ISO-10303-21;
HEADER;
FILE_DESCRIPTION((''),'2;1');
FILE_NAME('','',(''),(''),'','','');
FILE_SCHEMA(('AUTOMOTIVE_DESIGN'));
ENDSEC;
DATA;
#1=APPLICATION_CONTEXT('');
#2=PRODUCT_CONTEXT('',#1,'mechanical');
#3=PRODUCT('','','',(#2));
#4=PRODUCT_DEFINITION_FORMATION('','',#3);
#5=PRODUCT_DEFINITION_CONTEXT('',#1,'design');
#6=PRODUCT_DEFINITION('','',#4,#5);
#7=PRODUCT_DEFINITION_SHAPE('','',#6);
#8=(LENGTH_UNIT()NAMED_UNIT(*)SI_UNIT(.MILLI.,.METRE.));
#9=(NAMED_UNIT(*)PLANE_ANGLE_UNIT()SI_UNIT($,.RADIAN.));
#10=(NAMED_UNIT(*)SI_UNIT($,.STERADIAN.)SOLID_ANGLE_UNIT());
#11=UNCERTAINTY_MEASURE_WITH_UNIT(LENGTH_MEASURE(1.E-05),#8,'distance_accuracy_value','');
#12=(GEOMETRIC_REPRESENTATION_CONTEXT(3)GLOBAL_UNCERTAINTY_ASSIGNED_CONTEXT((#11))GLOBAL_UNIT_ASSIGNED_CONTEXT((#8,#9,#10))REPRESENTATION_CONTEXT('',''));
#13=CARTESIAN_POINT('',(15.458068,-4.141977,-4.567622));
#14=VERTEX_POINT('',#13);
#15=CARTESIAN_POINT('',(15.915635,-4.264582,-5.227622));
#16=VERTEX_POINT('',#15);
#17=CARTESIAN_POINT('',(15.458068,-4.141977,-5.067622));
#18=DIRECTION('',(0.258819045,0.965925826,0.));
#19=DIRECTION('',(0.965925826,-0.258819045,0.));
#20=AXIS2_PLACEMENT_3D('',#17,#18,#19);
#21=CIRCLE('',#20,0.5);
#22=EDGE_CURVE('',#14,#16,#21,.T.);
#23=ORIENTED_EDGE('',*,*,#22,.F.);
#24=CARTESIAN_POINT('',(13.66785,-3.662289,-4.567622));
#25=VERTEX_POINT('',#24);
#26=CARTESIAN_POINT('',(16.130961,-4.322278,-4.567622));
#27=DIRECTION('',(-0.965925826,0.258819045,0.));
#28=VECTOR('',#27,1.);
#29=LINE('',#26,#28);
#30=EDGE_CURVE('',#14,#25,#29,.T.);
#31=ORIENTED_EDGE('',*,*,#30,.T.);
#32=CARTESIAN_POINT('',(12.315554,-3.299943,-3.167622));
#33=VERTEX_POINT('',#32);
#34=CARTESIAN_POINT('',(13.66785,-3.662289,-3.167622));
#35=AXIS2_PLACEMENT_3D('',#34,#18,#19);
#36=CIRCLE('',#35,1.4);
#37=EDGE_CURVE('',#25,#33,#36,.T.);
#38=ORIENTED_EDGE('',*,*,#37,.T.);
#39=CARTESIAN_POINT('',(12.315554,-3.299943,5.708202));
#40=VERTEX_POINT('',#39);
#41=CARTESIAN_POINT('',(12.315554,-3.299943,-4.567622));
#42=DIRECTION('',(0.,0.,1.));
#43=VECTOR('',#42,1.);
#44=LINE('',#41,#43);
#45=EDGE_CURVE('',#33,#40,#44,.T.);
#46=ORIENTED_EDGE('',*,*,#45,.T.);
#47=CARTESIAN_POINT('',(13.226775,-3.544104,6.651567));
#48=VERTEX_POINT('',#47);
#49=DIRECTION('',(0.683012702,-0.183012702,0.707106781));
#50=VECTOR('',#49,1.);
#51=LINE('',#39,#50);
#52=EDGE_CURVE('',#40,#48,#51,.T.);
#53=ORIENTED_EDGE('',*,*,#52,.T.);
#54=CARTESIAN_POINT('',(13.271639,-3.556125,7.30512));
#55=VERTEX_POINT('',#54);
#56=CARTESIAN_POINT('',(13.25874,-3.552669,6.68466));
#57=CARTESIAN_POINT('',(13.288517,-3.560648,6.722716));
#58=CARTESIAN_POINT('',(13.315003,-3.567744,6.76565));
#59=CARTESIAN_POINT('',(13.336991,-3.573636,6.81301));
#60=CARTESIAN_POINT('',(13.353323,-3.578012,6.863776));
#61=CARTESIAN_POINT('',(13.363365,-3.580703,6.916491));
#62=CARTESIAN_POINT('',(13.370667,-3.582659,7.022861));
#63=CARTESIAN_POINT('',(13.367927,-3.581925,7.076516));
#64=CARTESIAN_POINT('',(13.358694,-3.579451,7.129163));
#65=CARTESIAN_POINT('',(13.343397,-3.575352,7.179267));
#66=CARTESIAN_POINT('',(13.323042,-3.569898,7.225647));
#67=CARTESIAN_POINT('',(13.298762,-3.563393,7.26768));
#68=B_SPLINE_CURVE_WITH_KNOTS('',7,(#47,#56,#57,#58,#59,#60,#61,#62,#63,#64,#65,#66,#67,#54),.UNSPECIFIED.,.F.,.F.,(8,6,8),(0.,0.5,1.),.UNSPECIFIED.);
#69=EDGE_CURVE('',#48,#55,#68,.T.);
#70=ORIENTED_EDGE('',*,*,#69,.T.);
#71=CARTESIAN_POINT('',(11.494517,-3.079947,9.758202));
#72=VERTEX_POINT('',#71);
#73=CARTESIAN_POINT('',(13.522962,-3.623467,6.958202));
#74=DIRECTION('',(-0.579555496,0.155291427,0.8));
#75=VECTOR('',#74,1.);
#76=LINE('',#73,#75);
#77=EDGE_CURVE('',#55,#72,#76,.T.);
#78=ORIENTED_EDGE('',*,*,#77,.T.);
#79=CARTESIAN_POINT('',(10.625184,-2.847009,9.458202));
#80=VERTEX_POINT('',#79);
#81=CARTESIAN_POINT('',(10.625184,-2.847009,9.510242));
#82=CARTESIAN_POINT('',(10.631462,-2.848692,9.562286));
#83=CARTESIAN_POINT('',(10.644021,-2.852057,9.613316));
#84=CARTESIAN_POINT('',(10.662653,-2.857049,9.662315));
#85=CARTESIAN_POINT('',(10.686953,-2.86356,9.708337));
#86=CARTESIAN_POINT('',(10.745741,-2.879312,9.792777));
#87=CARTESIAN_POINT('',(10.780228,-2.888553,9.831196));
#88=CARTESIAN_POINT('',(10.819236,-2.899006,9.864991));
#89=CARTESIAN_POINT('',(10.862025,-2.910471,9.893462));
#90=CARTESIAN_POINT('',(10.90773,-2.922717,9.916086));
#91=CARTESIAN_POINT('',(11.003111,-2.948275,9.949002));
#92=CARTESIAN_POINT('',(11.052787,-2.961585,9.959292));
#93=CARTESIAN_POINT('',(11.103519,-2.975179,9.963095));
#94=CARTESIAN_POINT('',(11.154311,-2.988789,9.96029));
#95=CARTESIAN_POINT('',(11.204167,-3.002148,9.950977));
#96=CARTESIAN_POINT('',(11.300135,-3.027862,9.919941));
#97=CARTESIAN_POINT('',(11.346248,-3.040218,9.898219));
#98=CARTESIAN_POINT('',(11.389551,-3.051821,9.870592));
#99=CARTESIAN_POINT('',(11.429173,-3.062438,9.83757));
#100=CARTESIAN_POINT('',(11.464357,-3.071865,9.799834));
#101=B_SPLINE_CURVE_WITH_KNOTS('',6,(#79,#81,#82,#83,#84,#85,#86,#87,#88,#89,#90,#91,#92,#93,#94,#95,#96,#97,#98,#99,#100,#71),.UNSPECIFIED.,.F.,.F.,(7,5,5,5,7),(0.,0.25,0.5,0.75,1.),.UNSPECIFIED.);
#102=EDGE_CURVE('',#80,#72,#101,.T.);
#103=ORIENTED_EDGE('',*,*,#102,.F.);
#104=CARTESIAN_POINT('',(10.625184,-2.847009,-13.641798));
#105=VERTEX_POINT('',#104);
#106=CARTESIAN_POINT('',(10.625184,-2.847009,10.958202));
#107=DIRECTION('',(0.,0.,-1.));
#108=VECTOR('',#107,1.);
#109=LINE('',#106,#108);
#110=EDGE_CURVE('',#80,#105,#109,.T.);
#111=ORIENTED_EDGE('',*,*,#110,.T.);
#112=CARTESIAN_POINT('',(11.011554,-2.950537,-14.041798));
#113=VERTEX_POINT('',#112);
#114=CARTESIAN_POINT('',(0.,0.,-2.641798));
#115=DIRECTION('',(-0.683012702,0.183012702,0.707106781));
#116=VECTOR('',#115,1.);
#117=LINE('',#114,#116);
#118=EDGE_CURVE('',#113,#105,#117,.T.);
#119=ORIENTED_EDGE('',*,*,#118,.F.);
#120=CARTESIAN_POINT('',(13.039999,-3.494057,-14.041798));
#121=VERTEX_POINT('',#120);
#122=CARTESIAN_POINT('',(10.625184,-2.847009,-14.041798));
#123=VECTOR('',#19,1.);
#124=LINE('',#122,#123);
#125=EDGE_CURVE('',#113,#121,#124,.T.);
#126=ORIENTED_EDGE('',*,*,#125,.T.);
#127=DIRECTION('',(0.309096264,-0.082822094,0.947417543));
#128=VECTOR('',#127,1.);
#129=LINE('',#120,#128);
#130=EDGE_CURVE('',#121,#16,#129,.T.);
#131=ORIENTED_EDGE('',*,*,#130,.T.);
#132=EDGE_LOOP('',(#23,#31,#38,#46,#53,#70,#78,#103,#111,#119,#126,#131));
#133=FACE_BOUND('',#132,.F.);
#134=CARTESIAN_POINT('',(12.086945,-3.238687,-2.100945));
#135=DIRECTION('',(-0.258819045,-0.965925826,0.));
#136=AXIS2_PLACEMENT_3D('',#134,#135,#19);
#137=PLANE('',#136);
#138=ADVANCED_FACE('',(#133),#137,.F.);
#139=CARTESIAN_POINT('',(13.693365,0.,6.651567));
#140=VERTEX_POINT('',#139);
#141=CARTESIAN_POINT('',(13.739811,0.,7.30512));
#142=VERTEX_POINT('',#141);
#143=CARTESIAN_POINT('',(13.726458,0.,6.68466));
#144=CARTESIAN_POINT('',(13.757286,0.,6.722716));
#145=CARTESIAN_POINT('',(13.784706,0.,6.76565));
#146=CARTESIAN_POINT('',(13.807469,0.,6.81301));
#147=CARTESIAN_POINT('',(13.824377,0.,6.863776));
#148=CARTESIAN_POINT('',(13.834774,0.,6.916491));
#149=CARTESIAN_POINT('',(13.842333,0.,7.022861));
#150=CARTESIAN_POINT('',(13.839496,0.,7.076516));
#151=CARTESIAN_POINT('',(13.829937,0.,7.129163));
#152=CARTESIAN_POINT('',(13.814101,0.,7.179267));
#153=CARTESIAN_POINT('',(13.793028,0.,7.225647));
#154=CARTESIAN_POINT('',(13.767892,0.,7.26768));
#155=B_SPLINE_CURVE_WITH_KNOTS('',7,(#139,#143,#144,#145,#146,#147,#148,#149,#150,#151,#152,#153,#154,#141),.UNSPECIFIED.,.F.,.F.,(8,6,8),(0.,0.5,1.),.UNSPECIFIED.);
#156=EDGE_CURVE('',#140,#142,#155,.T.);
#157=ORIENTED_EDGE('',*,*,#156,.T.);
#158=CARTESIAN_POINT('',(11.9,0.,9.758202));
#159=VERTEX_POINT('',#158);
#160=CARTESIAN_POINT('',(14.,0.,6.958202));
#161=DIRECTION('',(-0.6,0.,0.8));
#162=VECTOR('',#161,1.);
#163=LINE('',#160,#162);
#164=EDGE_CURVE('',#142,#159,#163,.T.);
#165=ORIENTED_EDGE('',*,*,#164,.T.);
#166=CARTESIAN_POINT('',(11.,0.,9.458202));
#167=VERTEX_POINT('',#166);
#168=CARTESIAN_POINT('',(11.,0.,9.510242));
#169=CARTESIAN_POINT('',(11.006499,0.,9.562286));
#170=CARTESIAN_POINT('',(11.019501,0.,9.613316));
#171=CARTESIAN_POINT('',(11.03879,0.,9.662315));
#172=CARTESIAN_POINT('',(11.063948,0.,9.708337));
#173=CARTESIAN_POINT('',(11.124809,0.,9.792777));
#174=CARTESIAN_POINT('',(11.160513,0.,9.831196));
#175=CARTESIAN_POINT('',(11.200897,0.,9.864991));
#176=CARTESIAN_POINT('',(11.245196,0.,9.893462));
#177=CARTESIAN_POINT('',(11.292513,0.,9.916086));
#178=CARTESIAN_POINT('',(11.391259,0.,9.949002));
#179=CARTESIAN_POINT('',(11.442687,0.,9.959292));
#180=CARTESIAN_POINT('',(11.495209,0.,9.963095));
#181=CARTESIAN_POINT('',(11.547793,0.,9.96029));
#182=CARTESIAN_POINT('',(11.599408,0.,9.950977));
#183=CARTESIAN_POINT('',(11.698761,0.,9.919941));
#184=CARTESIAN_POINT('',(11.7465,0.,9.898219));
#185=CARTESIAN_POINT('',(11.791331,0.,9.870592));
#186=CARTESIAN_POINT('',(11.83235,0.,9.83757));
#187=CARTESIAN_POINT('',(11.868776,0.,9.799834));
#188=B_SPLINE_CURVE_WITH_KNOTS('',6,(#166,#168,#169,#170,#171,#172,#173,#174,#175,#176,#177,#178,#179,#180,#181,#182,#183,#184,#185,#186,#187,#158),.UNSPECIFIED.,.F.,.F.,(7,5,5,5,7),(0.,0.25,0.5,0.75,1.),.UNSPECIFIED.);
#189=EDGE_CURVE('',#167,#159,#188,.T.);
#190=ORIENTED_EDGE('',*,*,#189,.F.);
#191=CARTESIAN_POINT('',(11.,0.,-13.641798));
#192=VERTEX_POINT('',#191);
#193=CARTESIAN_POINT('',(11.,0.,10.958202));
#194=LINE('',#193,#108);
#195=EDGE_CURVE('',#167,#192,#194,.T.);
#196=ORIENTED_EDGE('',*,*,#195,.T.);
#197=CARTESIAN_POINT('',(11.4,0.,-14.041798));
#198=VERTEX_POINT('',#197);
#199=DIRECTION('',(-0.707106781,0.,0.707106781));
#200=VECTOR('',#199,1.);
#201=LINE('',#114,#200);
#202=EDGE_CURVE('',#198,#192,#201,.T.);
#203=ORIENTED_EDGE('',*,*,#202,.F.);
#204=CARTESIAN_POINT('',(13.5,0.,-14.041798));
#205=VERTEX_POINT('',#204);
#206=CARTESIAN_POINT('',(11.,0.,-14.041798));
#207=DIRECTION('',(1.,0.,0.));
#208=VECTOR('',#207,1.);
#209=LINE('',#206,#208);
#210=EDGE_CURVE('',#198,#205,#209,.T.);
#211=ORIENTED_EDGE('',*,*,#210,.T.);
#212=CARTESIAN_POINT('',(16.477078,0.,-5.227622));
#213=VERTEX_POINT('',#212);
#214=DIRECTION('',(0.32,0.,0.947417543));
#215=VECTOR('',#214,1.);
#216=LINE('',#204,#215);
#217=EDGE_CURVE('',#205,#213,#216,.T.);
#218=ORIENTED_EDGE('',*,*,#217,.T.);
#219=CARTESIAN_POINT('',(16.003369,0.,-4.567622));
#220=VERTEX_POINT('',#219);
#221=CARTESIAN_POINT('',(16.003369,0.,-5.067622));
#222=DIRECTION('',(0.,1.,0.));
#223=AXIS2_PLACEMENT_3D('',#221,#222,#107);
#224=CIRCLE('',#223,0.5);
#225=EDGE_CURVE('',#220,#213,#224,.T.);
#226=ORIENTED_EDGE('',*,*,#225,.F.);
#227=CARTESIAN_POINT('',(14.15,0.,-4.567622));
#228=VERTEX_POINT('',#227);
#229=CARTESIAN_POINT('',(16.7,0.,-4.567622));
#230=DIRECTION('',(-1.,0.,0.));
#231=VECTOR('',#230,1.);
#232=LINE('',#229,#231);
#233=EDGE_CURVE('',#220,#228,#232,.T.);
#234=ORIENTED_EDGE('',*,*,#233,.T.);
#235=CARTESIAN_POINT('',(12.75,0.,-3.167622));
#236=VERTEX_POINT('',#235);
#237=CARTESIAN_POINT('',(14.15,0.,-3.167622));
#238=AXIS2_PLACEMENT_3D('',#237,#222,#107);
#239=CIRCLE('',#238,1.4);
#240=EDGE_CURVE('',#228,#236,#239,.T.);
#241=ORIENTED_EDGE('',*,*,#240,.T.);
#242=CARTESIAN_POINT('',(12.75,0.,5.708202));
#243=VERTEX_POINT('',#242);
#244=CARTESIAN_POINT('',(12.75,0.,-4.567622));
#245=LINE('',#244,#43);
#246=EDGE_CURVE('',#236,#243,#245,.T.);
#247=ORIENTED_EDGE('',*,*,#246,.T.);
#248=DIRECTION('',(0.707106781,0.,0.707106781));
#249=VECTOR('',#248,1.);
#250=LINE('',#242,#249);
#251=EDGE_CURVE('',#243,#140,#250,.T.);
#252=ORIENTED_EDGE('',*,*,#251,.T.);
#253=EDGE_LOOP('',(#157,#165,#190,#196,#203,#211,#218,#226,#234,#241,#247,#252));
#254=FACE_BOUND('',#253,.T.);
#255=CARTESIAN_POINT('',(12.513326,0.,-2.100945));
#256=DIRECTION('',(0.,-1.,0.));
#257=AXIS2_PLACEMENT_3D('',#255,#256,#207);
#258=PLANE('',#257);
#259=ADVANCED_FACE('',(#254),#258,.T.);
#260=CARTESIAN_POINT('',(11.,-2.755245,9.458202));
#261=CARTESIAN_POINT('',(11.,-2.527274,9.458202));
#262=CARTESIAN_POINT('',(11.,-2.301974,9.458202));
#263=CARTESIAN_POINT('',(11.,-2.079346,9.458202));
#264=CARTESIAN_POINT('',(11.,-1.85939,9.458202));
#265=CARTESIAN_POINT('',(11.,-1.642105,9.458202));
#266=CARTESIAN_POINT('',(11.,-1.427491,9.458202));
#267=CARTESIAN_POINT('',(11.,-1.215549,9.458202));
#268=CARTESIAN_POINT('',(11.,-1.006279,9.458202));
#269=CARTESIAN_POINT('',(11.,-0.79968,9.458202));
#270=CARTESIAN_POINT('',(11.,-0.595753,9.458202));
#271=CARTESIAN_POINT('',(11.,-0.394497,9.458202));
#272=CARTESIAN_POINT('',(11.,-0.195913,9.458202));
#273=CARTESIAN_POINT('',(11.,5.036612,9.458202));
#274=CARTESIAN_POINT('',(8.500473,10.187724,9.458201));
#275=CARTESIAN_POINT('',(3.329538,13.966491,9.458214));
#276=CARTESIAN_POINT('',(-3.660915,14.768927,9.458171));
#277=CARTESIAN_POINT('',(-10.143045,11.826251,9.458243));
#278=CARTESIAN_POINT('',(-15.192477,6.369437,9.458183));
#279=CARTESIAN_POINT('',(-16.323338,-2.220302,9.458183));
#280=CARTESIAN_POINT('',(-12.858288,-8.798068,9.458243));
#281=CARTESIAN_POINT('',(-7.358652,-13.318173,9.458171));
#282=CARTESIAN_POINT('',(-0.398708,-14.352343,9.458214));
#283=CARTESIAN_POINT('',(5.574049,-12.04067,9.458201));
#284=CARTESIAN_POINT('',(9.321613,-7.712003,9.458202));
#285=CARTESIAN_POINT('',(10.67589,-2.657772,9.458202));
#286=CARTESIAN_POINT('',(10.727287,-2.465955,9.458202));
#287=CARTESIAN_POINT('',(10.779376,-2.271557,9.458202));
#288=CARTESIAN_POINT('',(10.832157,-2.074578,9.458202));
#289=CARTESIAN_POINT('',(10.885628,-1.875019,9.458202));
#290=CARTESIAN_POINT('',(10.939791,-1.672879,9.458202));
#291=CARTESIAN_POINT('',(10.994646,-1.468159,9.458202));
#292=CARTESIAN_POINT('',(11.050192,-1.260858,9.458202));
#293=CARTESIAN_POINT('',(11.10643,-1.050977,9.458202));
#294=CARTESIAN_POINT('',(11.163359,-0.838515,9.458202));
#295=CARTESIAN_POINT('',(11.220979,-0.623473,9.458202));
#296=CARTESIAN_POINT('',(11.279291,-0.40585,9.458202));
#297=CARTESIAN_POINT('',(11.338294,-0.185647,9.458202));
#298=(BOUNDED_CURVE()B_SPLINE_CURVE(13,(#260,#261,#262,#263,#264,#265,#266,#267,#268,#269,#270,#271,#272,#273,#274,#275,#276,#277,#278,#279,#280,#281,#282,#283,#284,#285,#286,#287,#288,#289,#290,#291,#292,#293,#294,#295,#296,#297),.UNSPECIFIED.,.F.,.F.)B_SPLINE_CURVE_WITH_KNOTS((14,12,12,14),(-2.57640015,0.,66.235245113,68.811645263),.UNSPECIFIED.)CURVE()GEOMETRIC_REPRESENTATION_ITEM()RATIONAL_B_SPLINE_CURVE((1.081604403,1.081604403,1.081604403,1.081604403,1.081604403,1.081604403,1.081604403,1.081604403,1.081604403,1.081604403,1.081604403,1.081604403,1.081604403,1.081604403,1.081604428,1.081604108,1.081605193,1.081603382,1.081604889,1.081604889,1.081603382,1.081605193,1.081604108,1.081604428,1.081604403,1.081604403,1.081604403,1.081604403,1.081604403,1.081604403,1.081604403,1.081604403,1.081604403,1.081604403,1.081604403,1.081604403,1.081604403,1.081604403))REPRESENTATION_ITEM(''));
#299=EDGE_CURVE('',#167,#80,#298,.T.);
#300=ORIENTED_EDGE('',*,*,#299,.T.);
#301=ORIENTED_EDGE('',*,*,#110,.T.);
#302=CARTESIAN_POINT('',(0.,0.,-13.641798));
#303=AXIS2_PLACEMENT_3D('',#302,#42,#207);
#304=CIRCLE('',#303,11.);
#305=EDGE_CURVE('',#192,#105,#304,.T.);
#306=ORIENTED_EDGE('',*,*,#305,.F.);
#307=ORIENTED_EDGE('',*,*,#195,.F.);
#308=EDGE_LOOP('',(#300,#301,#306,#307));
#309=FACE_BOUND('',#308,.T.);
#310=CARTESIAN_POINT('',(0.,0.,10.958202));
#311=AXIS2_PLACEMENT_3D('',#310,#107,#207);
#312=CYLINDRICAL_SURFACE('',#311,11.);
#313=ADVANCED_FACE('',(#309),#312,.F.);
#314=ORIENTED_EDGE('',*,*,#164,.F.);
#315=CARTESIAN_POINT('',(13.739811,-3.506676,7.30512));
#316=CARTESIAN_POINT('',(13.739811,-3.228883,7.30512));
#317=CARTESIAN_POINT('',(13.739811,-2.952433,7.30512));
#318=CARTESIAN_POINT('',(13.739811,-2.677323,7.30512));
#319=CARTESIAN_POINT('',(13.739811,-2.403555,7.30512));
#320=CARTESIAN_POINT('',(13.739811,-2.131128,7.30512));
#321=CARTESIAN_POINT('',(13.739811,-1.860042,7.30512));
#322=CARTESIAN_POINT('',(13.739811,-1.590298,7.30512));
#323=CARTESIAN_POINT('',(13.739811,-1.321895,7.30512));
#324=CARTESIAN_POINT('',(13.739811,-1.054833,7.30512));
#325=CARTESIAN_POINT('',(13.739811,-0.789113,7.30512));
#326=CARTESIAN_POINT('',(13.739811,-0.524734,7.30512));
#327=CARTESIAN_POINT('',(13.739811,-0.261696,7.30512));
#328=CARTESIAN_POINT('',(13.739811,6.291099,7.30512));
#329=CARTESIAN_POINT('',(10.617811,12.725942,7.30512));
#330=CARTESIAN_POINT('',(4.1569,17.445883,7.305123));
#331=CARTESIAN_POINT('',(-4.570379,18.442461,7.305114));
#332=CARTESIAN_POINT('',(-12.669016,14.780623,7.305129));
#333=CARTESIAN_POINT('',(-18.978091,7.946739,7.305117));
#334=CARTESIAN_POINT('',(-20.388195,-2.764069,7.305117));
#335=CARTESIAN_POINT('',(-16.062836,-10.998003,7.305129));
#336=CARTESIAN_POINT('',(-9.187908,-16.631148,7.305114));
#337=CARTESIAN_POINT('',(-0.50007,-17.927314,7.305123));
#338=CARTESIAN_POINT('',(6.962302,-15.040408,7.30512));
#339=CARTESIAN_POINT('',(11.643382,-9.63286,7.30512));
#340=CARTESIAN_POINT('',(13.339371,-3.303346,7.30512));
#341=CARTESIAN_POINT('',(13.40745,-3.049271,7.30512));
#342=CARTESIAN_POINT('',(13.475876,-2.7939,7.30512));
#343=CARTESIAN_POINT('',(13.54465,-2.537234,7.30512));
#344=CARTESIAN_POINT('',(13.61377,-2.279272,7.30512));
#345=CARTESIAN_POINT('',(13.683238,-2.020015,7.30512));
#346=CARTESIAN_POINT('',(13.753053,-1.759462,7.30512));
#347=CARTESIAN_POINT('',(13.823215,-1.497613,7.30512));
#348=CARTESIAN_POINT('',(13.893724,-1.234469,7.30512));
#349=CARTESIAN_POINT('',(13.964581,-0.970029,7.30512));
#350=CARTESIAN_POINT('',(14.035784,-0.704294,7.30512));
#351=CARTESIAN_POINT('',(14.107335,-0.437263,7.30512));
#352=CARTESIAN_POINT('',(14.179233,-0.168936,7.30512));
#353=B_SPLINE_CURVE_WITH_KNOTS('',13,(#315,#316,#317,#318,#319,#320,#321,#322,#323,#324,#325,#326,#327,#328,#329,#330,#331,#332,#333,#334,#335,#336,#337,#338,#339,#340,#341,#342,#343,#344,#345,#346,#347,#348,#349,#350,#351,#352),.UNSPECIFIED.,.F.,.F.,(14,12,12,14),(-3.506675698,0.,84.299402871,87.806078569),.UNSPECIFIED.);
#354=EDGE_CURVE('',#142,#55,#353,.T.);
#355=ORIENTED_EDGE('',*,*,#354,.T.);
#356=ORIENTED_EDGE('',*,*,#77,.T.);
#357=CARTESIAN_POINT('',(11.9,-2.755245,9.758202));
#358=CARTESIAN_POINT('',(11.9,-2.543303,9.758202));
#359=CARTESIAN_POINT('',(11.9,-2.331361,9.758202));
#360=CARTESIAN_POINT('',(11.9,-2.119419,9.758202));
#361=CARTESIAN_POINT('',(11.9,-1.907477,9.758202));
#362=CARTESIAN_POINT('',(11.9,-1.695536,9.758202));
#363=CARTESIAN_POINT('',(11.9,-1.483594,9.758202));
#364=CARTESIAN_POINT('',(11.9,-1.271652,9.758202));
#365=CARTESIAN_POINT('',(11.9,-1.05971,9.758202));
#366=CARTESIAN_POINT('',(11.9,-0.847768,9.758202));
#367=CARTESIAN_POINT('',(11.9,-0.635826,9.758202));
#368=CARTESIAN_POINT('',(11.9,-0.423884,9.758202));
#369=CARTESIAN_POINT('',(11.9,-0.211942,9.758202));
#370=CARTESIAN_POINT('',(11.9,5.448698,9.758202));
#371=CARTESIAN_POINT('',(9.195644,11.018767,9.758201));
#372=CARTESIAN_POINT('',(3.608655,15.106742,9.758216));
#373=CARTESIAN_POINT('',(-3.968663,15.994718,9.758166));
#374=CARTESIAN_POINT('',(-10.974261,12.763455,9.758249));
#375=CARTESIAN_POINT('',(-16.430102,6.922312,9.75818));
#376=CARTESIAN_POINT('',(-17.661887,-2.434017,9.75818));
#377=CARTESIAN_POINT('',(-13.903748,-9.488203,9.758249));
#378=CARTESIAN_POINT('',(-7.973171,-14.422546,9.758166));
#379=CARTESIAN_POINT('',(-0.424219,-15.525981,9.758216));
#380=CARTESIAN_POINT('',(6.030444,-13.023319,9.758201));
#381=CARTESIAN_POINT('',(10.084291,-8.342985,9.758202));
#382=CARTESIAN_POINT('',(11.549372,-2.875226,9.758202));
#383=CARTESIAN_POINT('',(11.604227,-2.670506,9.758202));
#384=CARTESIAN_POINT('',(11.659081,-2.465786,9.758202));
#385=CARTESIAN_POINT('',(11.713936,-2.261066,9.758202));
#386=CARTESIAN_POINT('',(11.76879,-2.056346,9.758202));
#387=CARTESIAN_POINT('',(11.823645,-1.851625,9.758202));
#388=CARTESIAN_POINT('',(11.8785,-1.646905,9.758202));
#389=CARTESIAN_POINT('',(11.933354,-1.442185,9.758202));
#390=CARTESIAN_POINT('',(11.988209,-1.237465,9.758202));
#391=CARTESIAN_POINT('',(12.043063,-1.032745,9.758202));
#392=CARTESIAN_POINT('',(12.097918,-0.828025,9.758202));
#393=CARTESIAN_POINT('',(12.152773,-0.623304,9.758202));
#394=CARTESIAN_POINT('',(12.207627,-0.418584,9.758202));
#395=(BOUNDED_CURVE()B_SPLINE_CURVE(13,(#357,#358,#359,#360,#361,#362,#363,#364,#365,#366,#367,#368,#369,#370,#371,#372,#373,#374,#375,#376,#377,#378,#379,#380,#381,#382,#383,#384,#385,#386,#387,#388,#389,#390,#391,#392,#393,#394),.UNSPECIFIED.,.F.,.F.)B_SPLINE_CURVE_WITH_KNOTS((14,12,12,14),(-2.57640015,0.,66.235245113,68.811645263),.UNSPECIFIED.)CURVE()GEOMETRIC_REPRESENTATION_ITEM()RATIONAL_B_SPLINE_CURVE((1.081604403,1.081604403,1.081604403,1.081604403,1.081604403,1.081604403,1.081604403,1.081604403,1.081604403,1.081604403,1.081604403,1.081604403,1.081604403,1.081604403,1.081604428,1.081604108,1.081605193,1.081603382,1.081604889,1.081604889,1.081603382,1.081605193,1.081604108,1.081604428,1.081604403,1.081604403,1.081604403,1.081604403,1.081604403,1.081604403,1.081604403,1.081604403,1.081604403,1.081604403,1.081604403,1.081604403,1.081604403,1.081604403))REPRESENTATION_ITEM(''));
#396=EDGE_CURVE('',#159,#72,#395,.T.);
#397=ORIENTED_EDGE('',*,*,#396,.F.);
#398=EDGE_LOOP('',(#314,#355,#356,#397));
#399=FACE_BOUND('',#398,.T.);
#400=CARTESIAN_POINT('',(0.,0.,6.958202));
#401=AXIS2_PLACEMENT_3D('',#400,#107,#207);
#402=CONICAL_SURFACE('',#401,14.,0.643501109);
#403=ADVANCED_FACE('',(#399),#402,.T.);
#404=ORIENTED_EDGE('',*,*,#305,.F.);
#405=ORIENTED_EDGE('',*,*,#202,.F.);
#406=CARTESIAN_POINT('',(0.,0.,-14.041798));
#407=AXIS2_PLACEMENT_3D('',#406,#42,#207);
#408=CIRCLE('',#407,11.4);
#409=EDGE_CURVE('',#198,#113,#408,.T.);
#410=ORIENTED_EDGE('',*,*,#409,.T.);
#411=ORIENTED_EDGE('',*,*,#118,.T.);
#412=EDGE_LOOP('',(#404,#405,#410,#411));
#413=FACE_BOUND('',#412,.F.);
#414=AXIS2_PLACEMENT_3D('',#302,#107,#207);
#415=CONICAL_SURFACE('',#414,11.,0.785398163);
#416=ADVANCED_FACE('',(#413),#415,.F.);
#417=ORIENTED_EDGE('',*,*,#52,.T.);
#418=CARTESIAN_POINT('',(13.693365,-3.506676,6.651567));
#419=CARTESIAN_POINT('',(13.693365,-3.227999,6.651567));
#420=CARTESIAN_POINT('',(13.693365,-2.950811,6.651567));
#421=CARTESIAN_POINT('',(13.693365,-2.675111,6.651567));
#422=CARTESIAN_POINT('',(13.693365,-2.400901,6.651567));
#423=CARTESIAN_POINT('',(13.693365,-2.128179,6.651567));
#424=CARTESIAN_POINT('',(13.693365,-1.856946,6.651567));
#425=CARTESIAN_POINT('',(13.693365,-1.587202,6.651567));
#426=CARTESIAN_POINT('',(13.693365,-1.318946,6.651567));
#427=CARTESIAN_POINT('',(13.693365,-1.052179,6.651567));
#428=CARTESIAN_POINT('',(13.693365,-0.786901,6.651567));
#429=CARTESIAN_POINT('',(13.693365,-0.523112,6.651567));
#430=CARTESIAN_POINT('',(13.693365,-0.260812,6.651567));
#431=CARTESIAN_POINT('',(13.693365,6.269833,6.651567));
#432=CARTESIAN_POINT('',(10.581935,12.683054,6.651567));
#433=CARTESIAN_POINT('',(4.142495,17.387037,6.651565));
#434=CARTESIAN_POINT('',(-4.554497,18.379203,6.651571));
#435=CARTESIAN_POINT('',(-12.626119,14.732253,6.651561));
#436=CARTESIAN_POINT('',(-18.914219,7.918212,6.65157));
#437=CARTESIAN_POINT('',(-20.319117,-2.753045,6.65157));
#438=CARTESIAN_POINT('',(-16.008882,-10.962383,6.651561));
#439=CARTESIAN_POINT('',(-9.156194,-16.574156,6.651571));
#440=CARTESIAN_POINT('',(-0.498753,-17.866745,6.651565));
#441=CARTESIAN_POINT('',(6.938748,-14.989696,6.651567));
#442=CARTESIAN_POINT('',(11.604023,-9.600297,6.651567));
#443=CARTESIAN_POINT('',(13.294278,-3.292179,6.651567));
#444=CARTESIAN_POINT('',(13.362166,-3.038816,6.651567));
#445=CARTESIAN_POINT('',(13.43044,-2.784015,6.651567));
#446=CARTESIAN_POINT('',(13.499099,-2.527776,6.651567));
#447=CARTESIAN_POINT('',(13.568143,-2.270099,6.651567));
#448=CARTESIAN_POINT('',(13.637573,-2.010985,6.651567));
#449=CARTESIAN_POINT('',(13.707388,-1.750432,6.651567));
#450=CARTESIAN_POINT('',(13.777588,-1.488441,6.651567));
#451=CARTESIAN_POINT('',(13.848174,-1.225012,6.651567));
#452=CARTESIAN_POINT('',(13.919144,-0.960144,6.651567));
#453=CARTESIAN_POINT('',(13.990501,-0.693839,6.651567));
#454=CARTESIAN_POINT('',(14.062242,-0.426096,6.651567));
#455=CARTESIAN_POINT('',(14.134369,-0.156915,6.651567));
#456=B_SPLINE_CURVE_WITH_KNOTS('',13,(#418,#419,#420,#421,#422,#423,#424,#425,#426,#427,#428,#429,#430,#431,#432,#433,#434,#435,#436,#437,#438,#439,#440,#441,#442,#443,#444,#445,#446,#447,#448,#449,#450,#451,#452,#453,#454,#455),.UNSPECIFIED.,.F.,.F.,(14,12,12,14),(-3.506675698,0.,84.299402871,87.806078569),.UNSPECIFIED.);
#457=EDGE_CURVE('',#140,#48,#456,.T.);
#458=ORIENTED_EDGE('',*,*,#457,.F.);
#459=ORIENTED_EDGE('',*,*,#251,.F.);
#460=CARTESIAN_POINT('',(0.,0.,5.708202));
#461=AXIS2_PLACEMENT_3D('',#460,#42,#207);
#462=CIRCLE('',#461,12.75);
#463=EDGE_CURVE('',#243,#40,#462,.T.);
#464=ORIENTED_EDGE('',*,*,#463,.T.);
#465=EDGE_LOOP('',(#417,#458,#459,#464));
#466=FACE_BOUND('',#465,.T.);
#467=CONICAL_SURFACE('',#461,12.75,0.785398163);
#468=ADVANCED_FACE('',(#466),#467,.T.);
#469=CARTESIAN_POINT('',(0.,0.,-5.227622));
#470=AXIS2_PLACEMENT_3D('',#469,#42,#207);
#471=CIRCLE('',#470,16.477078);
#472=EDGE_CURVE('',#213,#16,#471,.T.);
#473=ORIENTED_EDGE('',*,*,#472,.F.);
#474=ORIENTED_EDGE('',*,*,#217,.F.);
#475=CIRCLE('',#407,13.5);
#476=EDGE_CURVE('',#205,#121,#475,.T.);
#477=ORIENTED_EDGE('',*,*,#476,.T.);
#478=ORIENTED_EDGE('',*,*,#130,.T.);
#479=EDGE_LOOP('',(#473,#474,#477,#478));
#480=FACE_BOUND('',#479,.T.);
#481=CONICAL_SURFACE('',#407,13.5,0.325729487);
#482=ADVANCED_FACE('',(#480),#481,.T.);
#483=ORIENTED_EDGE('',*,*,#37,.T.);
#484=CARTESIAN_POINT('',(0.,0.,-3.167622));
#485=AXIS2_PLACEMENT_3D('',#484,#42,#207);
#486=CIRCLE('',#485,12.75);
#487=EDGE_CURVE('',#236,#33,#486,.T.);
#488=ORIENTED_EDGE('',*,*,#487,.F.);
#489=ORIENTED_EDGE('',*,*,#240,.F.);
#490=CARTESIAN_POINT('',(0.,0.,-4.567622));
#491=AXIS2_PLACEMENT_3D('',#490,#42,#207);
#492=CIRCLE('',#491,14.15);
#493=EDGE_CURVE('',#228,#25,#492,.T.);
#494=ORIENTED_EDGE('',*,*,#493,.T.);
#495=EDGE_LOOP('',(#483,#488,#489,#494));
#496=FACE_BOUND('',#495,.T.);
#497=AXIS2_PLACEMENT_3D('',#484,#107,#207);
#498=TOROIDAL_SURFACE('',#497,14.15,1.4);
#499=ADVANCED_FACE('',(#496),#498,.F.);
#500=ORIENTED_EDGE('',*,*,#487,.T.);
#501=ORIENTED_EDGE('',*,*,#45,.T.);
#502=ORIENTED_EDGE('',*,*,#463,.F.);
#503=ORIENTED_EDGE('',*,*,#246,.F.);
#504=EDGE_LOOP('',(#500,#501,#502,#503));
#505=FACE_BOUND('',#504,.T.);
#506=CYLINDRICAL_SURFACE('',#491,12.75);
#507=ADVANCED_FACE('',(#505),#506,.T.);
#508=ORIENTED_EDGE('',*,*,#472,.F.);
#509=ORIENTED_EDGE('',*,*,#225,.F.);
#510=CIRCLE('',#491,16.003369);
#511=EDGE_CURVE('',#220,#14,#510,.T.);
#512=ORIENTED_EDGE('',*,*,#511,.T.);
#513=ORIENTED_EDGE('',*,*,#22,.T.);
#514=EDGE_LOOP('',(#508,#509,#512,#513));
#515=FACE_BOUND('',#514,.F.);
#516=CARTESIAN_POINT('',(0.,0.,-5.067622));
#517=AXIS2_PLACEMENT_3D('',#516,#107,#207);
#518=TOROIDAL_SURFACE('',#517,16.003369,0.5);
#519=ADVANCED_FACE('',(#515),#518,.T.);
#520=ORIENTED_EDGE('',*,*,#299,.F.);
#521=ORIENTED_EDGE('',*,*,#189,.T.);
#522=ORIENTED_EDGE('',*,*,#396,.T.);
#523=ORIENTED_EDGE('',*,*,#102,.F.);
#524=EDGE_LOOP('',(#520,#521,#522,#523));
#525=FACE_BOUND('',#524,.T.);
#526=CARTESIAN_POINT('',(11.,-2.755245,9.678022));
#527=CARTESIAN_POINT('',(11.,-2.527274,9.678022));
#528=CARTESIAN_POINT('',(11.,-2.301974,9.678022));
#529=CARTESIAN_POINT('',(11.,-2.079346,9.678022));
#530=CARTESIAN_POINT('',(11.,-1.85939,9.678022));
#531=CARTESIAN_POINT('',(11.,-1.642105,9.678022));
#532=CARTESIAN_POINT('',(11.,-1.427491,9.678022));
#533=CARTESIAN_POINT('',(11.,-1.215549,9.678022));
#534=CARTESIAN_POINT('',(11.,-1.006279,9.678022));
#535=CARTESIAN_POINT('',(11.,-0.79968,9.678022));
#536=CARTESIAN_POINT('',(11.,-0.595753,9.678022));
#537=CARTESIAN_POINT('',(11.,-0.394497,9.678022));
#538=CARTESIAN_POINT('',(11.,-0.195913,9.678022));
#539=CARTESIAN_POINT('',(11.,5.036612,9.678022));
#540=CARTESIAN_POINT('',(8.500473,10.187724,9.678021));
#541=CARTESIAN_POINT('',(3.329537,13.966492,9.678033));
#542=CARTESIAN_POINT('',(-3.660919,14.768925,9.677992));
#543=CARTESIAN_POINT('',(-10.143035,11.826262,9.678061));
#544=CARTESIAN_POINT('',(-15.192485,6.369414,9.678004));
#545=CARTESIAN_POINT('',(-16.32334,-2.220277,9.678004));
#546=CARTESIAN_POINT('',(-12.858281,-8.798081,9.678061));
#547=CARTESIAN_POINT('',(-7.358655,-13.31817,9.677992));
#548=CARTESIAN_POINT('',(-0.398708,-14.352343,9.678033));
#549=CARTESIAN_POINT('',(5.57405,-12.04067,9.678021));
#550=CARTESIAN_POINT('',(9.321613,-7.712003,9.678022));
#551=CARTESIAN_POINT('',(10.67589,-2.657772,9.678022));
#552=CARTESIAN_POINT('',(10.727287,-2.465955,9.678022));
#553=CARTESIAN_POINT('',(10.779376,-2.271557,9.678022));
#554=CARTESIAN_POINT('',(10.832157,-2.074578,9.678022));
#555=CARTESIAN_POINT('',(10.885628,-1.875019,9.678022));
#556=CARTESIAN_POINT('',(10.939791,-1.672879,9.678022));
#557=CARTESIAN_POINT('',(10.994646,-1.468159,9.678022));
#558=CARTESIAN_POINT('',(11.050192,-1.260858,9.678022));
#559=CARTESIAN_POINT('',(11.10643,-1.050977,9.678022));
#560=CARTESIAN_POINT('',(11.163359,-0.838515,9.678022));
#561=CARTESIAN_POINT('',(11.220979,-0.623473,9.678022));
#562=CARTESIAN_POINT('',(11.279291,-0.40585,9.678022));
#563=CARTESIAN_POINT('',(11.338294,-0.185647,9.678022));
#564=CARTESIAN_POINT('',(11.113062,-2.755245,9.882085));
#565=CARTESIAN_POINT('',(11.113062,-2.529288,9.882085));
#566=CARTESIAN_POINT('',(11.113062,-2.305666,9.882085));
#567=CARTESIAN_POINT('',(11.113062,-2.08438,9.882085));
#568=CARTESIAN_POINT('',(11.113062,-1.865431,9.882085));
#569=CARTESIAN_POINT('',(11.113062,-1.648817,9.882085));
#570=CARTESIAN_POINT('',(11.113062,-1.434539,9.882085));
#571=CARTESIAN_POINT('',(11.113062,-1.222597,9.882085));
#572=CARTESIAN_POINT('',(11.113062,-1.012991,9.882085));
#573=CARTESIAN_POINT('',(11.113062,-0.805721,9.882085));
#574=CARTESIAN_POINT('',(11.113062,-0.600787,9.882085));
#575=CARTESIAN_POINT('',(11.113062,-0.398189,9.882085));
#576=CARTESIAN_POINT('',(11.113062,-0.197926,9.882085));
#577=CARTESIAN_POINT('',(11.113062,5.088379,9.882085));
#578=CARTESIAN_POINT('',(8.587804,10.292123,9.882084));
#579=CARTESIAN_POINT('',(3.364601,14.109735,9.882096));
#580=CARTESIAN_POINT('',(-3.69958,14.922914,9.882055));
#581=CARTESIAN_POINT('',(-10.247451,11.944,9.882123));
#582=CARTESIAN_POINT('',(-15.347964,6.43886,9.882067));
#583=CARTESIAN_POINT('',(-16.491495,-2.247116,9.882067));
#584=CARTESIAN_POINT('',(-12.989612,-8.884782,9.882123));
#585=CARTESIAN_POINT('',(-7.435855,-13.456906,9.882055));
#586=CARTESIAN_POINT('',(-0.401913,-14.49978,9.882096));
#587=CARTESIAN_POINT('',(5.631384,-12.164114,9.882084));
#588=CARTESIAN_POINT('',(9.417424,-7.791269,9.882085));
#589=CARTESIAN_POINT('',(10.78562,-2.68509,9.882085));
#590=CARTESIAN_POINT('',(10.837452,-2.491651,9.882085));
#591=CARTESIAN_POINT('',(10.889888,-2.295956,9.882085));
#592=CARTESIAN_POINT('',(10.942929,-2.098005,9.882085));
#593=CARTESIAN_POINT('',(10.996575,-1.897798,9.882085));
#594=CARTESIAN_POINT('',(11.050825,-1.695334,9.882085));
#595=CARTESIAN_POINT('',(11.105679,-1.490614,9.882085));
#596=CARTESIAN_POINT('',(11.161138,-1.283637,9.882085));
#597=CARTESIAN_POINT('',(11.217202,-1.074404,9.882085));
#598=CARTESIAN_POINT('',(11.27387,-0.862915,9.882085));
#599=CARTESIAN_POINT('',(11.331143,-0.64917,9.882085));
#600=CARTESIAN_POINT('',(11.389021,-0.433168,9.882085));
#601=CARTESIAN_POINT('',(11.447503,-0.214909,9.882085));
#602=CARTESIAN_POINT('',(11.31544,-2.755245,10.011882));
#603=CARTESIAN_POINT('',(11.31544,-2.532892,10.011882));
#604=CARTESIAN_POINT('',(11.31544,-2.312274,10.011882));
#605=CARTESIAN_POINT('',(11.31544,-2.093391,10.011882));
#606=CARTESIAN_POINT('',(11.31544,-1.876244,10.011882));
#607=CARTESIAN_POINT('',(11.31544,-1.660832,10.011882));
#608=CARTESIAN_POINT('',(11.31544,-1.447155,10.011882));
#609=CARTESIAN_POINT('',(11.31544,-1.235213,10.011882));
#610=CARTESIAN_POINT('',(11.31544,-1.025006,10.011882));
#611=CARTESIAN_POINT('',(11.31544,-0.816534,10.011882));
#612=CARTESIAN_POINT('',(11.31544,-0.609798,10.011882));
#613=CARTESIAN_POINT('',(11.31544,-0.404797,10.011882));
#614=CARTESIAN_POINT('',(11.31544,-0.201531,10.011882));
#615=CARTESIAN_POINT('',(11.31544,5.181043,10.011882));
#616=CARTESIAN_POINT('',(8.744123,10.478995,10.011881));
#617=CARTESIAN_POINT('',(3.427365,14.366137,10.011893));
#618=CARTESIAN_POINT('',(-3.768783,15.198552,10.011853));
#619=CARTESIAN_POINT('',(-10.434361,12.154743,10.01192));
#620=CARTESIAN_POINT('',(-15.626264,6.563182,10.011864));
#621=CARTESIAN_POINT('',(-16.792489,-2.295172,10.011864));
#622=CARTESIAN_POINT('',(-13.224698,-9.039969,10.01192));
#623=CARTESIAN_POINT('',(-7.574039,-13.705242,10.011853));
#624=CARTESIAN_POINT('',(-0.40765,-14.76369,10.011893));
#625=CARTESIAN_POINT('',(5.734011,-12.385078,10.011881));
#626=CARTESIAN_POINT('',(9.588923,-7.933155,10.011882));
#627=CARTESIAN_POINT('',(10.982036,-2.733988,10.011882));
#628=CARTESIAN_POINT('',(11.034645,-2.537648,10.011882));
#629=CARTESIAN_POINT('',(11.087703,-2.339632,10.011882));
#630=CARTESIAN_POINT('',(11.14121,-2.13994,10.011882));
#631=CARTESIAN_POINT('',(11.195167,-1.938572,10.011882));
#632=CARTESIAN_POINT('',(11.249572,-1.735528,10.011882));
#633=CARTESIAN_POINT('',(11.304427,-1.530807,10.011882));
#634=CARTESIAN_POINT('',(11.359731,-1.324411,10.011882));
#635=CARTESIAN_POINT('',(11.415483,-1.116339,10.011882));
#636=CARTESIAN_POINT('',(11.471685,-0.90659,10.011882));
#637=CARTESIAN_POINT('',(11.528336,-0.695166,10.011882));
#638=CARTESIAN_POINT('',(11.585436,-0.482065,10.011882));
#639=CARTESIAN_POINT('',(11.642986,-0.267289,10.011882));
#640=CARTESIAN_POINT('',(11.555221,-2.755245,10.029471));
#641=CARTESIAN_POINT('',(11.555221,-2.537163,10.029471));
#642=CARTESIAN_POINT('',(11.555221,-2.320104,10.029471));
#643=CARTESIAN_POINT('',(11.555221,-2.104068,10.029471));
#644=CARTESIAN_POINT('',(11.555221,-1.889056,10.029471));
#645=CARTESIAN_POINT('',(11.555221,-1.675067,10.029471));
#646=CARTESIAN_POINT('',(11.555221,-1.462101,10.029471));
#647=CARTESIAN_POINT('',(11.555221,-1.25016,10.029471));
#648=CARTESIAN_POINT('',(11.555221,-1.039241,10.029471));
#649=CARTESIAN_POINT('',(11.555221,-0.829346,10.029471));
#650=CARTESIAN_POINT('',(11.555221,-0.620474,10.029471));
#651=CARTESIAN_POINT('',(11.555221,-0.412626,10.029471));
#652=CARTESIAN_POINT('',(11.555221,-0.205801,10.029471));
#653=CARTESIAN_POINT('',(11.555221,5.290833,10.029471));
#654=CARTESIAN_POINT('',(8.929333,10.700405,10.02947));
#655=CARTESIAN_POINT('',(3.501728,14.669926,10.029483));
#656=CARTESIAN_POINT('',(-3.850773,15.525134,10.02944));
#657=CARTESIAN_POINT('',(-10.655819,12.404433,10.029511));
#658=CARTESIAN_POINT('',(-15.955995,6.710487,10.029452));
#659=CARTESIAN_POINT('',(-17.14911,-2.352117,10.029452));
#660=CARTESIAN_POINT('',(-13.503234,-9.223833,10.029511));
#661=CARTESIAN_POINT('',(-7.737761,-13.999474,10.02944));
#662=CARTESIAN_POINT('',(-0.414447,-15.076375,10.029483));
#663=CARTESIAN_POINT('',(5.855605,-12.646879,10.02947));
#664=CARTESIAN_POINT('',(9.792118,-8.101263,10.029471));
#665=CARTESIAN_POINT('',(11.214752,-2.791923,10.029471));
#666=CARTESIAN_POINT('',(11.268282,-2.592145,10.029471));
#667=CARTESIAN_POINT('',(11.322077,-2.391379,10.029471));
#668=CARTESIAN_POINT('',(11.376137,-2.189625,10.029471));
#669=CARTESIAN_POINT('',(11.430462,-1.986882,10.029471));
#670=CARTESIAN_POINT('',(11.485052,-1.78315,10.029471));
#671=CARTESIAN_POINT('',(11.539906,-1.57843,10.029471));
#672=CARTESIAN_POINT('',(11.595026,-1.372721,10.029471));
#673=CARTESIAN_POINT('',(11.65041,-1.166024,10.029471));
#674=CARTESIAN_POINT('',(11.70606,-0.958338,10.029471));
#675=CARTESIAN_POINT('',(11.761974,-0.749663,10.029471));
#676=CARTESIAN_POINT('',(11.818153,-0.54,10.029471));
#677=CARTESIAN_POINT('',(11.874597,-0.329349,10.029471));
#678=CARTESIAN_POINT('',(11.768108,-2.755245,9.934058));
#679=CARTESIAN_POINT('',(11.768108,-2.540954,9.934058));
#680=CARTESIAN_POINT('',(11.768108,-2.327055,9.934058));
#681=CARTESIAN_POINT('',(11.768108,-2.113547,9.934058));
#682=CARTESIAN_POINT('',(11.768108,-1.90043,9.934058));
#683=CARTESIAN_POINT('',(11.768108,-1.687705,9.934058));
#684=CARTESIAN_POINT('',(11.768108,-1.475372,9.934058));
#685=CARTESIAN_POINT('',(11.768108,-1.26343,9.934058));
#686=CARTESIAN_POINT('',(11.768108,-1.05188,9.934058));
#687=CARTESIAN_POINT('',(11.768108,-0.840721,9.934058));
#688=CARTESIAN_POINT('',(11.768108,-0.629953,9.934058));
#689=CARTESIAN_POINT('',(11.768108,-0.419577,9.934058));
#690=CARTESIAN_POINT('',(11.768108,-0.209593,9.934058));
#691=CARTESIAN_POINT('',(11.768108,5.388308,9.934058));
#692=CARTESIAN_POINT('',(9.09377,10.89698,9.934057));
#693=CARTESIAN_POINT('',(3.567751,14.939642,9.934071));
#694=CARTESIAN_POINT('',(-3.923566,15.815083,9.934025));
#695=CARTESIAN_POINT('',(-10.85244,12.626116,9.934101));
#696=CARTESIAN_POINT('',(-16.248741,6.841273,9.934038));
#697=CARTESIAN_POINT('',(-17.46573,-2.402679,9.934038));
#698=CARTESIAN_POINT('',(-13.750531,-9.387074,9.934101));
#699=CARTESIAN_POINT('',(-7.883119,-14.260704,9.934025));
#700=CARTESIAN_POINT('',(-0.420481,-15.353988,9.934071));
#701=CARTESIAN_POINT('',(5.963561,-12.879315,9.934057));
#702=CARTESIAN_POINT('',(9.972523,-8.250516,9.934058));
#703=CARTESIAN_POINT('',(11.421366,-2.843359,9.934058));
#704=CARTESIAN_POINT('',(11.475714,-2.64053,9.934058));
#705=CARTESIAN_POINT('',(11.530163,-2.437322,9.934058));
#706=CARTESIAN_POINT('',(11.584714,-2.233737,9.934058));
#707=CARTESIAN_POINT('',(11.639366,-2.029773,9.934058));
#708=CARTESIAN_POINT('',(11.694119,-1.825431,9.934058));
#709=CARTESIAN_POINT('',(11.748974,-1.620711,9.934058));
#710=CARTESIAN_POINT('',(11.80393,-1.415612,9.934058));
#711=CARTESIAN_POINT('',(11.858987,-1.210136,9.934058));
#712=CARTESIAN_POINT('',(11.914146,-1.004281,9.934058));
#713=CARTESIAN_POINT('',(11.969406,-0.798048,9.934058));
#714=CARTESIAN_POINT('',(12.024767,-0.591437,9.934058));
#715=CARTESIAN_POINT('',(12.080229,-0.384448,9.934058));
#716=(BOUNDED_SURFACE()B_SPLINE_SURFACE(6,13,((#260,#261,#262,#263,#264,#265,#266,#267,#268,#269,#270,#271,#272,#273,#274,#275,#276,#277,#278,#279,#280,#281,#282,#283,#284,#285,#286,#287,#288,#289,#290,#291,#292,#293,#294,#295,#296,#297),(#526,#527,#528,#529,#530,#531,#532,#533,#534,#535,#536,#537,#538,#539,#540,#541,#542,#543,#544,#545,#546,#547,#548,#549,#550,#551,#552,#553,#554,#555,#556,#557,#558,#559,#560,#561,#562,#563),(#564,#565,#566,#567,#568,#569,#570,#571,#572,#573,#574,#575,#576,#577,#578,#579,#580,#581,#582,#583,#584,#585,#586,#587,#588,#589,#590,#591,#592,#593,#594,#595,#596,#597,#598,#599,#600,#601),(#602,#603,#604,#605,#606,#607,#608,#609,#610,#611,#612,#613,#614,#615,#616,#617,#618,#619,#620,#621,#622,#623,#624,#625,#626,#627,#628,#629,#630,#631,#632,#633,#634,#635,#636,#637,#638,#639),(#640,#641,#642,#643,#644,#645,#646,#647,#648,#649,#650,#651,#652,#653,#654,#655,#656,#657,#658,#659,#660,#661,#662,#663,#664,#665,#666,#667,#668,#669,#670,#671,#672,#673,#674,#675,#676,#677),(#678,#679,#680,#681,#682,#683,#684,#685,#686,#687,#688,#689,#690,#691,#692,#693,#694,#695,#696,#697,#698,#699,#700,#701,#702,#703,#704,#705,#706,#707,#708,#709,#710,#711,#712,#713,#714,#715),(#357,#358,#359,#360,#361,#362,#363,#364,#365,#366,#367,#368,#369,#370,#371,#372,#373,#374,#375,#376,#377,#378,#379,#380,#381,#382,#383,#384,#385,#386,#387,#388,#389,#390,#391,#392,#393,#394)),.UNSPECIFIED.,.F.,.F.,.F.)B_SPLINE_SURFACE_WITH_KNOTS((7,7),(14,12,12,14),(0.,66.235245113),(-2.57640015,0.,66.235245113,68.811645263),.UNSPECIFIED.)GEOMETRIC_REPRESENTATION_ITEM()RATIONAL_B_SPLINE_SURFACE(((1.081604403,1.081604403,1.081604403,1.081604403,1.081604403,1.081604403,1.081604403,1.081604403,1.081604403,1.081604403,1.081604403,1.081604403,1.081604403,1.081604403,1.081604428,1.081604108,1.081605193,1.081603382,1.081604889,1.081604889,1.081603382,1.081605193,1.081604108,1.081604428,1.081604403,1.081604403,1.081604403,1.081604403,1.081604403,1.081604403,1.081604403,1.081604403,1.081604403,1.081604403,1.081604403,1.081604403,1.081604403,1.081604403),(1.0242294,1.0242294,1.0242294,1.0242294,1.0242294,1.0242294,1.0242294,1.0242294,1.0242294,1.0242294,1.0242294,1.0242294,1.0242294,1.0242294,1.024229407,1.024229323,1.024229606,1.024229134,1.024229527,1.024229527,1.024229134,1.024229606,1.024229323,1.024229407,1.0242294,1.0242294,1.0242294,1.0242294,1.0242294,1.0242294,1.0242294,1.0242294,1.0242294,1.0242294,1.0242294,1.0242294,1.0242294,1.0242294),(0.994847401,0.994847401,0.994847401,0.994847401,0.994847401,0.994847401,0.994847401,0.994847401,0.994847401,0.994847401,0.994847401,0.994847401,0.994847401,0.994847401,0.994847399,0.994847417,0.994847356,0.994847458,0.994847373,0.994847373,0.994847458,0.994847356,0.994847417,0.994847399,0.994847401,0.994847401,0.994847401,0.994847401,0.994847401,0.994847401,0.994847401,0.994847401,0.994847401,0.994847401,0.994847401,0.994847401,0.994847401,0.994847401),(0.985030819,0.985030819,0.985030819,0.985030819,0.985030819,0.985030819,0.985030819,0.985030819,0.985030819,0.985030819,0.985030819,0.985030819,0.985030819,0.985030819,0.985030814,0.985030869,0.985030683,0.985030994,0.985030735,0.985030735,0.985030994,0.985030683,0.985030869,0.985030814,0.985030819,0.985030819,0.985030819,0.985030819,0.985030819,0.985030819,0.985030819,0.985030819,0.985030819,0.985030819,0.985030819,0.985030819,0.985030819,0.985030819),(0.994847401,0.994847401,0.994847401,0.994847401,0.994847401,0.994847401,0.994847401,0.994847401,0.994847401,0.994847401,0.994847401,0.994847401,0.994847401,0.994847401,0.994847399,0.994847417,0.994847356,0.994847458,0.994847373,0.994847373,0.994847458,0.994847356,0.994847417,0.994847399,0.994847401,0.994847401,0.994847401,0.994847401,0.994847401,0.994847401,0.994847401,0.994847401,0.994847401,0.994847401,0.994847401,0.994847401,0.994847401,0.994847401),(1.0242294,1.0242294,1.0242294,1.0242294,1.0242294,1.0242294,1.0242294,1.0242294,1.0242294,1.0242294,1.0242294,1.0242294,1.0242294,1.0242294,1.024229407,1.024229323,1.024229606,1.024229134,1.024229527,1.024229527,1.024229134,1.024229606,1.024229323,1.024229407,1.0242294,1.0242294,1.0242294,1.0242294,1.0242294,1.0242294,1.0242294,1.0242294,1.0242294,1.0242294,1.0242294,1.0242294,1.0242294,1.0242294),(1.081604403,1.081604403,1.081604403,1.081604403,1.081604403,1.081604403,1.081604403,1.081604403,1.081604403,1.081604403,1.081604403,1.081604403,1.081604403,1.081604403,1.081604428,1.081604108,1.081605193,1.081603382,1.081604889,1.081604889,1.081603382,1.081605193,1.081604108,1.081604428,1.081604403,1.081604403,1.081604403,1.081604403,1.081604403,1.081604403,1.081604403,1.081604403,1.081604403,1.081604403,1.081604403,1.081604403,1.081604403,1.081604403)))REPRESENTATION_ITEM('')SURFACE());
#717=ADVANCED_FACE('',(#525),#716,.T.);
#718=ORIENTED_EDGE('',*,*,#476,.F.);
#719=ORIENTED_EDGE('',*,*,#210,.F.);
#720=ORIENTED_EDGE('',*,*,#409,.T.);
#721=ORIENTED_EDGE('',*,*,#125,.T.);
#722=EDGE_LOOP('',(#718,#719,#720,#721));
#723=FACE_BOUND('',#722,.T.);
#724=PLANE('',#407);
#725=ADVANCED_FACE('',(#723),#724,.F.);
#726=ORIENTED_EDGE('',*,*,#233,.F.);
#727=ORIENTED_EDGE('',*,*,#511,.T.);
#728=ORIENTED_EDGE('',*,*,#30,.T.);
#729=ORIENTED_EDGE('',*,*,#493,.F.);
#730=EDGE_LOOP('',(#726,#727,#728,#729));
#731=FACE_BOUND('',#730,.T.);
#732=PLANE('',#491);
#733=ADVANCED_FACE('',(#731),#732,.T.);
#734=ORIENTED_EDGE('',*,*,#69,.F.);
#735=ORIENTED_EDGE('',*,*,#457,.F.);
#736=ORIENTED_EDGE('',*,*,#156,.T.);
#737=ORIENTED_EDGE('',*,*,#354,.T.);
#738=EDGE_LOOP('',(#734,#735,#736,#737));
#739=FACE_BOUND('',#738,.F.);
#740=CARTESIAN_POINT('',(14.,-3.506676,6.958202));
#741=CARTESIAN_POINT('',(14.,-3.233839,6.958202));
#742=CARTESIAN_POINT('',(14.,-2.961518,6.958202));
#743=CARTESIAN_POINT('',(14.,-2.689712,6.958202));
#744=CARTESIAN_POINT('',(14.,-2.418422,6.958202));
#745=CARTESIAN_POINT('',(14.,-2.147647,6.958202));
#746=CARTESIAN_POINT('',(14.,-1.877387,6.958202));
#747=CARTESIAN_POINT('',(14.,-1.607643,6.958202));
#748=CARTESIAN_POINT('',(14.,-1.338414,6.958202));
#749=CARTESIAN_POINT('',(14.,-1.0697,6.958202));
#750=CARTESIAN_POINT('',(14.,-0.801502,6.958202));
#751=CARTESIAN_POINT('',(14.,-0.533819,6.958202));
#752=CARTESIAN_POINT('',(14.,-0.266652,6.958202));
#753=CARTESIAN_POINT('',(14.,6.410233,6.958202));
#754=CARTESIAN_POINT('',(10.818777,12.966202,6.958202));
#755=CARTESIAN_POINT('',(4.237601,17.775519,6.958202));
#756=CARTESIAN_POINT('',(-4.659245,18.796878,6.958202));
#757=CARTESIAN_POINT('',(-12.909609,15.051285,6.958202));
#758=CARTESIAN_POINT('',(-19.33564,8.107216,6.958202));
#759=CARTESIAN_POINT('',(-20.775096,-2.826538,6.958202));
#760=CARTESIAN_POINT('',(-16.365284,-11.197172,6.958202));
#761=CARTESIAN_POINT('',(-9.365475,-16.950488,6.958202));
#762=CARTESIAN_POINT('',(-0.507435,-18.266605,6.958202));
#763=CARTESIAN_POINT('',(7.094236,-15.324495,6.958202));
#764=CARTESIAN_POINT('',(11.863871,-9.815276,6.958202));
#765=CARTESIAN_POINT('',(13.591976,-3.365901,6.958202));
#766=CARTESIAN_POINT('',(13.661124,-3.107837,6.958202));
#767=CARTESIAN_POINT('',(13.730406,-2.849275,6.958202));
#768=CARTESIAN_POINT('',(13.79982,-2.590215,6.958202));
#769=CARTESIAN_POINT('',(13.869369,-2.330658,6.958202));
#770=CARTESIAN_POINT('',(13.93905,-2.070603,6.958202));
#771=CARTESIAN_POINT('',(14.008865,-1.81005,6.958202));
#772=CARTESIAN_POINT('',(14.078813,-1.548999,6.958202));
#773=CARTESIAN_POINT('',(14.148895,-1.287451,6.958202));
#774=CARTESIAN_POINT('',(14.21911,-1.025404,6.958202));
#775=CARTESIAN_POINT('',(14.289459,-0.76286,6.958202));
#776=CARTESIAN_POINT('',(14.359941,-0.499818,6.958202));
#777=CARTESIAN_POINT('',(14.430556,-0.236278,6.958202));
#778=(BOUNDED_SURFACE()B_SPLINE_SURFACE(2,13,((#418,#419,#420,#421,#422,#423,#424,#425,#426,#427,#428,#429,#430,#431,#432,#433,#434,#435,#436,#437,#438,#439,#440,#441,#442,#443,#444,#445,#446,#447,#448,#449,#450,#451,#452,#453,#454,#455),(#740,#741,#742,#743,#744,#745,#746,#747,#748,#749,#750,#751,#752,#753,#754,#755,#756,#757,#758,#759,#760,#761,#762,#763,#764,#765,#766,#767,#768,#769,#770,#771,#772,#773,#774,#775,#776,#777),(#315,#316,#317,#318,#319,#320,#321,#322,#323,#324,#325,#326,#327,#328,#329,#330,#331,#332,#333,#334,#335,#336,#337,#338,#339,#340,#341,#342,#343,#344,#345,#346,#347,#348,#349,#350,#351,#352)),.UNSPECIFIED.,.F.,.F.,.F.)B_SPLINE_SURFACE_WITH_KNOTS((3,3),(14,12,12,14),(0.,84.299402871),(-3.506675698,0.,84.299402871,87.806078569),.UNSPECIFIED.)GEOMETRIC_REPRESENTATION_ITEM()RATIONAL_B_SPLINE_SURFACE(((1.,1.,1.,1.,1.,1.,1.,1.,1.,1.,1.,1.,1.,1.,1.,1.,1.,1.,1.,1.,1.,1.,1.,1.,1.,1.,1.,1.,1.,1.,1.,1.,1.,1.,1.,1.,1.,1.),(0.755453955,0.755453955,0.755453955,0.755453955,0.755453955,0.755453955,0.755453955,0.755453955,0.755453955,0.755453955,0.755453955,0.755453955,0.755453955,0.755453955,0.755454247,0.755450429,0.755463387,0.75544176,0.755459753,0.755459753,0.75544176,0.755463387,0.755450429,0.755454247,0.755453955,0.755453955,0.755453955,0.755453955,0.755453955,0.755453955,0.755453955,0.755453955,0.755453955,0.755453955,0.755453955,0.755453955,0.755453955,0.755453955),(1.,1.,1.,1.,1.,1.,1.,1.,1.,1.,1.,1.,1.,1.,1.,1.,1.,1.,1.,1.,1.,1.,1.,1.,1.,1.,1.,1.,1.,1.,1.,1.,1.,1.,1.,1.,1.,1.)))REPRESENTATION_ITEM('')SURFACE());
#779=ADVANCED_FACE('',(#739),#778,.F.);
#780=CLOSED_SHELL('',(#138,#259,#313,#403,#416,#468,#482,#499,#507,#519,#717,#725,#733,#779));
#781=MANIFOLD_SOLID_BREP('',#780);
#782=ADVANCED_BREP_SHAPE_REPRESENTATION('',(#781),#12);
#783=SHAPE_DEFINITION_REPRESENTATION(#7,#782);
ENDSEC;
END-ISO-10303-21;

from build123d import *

# Parameters (mm, degrees)
F1_ANGLE = 345
F2_R     = 1.4
F3_R     = 0.5
F4_SIZE  = 0.4


with BuildPart() as f1:
    # F0 (on Front) → F1 (revolve)
    with BuildSketch(Plane.XZ):
        Polygon((14, 6.9582022973), (11, 10.9582022973), (11, -14.0417977027), (13.5, -14.0417977027), (16.7, -4.5676222769), (12.75, -4.5676222769), (12.75, 5.7082022973), align=None)
    revolve(axis=Axis((0, 0, 2.9440160121), (0, 0, 1)), revolution_arc=F1_ANGLE)

    # F2
    f2_edges = [f1.edges().sort_by_distance(p)[0] for p in [
        (-12.640922, 1.664209, -4.567622),
    ]]
    fillet(f2_edges, radius=F2_R)

    # F3
    f3_edges = [f1.edges().sort_by_distance(p)[0] for p in [
        (-16.557129, 2.179787, -4.567622),
        (-13.880228, 1.827367, 6.958202),
        (-10.905893, 1.435788, 10.958202),
    ]]
    fillet(f3_edges, radius=F3_R)

    # F4
    f4_edges = [f1.edges().sort_by_distance(p)[0] for p in [
        (-10.905893, 1.435788, -14.041798),
    ]]
    chamfer(f4_edges, length=F4_SIZE)


solid = f1.part
